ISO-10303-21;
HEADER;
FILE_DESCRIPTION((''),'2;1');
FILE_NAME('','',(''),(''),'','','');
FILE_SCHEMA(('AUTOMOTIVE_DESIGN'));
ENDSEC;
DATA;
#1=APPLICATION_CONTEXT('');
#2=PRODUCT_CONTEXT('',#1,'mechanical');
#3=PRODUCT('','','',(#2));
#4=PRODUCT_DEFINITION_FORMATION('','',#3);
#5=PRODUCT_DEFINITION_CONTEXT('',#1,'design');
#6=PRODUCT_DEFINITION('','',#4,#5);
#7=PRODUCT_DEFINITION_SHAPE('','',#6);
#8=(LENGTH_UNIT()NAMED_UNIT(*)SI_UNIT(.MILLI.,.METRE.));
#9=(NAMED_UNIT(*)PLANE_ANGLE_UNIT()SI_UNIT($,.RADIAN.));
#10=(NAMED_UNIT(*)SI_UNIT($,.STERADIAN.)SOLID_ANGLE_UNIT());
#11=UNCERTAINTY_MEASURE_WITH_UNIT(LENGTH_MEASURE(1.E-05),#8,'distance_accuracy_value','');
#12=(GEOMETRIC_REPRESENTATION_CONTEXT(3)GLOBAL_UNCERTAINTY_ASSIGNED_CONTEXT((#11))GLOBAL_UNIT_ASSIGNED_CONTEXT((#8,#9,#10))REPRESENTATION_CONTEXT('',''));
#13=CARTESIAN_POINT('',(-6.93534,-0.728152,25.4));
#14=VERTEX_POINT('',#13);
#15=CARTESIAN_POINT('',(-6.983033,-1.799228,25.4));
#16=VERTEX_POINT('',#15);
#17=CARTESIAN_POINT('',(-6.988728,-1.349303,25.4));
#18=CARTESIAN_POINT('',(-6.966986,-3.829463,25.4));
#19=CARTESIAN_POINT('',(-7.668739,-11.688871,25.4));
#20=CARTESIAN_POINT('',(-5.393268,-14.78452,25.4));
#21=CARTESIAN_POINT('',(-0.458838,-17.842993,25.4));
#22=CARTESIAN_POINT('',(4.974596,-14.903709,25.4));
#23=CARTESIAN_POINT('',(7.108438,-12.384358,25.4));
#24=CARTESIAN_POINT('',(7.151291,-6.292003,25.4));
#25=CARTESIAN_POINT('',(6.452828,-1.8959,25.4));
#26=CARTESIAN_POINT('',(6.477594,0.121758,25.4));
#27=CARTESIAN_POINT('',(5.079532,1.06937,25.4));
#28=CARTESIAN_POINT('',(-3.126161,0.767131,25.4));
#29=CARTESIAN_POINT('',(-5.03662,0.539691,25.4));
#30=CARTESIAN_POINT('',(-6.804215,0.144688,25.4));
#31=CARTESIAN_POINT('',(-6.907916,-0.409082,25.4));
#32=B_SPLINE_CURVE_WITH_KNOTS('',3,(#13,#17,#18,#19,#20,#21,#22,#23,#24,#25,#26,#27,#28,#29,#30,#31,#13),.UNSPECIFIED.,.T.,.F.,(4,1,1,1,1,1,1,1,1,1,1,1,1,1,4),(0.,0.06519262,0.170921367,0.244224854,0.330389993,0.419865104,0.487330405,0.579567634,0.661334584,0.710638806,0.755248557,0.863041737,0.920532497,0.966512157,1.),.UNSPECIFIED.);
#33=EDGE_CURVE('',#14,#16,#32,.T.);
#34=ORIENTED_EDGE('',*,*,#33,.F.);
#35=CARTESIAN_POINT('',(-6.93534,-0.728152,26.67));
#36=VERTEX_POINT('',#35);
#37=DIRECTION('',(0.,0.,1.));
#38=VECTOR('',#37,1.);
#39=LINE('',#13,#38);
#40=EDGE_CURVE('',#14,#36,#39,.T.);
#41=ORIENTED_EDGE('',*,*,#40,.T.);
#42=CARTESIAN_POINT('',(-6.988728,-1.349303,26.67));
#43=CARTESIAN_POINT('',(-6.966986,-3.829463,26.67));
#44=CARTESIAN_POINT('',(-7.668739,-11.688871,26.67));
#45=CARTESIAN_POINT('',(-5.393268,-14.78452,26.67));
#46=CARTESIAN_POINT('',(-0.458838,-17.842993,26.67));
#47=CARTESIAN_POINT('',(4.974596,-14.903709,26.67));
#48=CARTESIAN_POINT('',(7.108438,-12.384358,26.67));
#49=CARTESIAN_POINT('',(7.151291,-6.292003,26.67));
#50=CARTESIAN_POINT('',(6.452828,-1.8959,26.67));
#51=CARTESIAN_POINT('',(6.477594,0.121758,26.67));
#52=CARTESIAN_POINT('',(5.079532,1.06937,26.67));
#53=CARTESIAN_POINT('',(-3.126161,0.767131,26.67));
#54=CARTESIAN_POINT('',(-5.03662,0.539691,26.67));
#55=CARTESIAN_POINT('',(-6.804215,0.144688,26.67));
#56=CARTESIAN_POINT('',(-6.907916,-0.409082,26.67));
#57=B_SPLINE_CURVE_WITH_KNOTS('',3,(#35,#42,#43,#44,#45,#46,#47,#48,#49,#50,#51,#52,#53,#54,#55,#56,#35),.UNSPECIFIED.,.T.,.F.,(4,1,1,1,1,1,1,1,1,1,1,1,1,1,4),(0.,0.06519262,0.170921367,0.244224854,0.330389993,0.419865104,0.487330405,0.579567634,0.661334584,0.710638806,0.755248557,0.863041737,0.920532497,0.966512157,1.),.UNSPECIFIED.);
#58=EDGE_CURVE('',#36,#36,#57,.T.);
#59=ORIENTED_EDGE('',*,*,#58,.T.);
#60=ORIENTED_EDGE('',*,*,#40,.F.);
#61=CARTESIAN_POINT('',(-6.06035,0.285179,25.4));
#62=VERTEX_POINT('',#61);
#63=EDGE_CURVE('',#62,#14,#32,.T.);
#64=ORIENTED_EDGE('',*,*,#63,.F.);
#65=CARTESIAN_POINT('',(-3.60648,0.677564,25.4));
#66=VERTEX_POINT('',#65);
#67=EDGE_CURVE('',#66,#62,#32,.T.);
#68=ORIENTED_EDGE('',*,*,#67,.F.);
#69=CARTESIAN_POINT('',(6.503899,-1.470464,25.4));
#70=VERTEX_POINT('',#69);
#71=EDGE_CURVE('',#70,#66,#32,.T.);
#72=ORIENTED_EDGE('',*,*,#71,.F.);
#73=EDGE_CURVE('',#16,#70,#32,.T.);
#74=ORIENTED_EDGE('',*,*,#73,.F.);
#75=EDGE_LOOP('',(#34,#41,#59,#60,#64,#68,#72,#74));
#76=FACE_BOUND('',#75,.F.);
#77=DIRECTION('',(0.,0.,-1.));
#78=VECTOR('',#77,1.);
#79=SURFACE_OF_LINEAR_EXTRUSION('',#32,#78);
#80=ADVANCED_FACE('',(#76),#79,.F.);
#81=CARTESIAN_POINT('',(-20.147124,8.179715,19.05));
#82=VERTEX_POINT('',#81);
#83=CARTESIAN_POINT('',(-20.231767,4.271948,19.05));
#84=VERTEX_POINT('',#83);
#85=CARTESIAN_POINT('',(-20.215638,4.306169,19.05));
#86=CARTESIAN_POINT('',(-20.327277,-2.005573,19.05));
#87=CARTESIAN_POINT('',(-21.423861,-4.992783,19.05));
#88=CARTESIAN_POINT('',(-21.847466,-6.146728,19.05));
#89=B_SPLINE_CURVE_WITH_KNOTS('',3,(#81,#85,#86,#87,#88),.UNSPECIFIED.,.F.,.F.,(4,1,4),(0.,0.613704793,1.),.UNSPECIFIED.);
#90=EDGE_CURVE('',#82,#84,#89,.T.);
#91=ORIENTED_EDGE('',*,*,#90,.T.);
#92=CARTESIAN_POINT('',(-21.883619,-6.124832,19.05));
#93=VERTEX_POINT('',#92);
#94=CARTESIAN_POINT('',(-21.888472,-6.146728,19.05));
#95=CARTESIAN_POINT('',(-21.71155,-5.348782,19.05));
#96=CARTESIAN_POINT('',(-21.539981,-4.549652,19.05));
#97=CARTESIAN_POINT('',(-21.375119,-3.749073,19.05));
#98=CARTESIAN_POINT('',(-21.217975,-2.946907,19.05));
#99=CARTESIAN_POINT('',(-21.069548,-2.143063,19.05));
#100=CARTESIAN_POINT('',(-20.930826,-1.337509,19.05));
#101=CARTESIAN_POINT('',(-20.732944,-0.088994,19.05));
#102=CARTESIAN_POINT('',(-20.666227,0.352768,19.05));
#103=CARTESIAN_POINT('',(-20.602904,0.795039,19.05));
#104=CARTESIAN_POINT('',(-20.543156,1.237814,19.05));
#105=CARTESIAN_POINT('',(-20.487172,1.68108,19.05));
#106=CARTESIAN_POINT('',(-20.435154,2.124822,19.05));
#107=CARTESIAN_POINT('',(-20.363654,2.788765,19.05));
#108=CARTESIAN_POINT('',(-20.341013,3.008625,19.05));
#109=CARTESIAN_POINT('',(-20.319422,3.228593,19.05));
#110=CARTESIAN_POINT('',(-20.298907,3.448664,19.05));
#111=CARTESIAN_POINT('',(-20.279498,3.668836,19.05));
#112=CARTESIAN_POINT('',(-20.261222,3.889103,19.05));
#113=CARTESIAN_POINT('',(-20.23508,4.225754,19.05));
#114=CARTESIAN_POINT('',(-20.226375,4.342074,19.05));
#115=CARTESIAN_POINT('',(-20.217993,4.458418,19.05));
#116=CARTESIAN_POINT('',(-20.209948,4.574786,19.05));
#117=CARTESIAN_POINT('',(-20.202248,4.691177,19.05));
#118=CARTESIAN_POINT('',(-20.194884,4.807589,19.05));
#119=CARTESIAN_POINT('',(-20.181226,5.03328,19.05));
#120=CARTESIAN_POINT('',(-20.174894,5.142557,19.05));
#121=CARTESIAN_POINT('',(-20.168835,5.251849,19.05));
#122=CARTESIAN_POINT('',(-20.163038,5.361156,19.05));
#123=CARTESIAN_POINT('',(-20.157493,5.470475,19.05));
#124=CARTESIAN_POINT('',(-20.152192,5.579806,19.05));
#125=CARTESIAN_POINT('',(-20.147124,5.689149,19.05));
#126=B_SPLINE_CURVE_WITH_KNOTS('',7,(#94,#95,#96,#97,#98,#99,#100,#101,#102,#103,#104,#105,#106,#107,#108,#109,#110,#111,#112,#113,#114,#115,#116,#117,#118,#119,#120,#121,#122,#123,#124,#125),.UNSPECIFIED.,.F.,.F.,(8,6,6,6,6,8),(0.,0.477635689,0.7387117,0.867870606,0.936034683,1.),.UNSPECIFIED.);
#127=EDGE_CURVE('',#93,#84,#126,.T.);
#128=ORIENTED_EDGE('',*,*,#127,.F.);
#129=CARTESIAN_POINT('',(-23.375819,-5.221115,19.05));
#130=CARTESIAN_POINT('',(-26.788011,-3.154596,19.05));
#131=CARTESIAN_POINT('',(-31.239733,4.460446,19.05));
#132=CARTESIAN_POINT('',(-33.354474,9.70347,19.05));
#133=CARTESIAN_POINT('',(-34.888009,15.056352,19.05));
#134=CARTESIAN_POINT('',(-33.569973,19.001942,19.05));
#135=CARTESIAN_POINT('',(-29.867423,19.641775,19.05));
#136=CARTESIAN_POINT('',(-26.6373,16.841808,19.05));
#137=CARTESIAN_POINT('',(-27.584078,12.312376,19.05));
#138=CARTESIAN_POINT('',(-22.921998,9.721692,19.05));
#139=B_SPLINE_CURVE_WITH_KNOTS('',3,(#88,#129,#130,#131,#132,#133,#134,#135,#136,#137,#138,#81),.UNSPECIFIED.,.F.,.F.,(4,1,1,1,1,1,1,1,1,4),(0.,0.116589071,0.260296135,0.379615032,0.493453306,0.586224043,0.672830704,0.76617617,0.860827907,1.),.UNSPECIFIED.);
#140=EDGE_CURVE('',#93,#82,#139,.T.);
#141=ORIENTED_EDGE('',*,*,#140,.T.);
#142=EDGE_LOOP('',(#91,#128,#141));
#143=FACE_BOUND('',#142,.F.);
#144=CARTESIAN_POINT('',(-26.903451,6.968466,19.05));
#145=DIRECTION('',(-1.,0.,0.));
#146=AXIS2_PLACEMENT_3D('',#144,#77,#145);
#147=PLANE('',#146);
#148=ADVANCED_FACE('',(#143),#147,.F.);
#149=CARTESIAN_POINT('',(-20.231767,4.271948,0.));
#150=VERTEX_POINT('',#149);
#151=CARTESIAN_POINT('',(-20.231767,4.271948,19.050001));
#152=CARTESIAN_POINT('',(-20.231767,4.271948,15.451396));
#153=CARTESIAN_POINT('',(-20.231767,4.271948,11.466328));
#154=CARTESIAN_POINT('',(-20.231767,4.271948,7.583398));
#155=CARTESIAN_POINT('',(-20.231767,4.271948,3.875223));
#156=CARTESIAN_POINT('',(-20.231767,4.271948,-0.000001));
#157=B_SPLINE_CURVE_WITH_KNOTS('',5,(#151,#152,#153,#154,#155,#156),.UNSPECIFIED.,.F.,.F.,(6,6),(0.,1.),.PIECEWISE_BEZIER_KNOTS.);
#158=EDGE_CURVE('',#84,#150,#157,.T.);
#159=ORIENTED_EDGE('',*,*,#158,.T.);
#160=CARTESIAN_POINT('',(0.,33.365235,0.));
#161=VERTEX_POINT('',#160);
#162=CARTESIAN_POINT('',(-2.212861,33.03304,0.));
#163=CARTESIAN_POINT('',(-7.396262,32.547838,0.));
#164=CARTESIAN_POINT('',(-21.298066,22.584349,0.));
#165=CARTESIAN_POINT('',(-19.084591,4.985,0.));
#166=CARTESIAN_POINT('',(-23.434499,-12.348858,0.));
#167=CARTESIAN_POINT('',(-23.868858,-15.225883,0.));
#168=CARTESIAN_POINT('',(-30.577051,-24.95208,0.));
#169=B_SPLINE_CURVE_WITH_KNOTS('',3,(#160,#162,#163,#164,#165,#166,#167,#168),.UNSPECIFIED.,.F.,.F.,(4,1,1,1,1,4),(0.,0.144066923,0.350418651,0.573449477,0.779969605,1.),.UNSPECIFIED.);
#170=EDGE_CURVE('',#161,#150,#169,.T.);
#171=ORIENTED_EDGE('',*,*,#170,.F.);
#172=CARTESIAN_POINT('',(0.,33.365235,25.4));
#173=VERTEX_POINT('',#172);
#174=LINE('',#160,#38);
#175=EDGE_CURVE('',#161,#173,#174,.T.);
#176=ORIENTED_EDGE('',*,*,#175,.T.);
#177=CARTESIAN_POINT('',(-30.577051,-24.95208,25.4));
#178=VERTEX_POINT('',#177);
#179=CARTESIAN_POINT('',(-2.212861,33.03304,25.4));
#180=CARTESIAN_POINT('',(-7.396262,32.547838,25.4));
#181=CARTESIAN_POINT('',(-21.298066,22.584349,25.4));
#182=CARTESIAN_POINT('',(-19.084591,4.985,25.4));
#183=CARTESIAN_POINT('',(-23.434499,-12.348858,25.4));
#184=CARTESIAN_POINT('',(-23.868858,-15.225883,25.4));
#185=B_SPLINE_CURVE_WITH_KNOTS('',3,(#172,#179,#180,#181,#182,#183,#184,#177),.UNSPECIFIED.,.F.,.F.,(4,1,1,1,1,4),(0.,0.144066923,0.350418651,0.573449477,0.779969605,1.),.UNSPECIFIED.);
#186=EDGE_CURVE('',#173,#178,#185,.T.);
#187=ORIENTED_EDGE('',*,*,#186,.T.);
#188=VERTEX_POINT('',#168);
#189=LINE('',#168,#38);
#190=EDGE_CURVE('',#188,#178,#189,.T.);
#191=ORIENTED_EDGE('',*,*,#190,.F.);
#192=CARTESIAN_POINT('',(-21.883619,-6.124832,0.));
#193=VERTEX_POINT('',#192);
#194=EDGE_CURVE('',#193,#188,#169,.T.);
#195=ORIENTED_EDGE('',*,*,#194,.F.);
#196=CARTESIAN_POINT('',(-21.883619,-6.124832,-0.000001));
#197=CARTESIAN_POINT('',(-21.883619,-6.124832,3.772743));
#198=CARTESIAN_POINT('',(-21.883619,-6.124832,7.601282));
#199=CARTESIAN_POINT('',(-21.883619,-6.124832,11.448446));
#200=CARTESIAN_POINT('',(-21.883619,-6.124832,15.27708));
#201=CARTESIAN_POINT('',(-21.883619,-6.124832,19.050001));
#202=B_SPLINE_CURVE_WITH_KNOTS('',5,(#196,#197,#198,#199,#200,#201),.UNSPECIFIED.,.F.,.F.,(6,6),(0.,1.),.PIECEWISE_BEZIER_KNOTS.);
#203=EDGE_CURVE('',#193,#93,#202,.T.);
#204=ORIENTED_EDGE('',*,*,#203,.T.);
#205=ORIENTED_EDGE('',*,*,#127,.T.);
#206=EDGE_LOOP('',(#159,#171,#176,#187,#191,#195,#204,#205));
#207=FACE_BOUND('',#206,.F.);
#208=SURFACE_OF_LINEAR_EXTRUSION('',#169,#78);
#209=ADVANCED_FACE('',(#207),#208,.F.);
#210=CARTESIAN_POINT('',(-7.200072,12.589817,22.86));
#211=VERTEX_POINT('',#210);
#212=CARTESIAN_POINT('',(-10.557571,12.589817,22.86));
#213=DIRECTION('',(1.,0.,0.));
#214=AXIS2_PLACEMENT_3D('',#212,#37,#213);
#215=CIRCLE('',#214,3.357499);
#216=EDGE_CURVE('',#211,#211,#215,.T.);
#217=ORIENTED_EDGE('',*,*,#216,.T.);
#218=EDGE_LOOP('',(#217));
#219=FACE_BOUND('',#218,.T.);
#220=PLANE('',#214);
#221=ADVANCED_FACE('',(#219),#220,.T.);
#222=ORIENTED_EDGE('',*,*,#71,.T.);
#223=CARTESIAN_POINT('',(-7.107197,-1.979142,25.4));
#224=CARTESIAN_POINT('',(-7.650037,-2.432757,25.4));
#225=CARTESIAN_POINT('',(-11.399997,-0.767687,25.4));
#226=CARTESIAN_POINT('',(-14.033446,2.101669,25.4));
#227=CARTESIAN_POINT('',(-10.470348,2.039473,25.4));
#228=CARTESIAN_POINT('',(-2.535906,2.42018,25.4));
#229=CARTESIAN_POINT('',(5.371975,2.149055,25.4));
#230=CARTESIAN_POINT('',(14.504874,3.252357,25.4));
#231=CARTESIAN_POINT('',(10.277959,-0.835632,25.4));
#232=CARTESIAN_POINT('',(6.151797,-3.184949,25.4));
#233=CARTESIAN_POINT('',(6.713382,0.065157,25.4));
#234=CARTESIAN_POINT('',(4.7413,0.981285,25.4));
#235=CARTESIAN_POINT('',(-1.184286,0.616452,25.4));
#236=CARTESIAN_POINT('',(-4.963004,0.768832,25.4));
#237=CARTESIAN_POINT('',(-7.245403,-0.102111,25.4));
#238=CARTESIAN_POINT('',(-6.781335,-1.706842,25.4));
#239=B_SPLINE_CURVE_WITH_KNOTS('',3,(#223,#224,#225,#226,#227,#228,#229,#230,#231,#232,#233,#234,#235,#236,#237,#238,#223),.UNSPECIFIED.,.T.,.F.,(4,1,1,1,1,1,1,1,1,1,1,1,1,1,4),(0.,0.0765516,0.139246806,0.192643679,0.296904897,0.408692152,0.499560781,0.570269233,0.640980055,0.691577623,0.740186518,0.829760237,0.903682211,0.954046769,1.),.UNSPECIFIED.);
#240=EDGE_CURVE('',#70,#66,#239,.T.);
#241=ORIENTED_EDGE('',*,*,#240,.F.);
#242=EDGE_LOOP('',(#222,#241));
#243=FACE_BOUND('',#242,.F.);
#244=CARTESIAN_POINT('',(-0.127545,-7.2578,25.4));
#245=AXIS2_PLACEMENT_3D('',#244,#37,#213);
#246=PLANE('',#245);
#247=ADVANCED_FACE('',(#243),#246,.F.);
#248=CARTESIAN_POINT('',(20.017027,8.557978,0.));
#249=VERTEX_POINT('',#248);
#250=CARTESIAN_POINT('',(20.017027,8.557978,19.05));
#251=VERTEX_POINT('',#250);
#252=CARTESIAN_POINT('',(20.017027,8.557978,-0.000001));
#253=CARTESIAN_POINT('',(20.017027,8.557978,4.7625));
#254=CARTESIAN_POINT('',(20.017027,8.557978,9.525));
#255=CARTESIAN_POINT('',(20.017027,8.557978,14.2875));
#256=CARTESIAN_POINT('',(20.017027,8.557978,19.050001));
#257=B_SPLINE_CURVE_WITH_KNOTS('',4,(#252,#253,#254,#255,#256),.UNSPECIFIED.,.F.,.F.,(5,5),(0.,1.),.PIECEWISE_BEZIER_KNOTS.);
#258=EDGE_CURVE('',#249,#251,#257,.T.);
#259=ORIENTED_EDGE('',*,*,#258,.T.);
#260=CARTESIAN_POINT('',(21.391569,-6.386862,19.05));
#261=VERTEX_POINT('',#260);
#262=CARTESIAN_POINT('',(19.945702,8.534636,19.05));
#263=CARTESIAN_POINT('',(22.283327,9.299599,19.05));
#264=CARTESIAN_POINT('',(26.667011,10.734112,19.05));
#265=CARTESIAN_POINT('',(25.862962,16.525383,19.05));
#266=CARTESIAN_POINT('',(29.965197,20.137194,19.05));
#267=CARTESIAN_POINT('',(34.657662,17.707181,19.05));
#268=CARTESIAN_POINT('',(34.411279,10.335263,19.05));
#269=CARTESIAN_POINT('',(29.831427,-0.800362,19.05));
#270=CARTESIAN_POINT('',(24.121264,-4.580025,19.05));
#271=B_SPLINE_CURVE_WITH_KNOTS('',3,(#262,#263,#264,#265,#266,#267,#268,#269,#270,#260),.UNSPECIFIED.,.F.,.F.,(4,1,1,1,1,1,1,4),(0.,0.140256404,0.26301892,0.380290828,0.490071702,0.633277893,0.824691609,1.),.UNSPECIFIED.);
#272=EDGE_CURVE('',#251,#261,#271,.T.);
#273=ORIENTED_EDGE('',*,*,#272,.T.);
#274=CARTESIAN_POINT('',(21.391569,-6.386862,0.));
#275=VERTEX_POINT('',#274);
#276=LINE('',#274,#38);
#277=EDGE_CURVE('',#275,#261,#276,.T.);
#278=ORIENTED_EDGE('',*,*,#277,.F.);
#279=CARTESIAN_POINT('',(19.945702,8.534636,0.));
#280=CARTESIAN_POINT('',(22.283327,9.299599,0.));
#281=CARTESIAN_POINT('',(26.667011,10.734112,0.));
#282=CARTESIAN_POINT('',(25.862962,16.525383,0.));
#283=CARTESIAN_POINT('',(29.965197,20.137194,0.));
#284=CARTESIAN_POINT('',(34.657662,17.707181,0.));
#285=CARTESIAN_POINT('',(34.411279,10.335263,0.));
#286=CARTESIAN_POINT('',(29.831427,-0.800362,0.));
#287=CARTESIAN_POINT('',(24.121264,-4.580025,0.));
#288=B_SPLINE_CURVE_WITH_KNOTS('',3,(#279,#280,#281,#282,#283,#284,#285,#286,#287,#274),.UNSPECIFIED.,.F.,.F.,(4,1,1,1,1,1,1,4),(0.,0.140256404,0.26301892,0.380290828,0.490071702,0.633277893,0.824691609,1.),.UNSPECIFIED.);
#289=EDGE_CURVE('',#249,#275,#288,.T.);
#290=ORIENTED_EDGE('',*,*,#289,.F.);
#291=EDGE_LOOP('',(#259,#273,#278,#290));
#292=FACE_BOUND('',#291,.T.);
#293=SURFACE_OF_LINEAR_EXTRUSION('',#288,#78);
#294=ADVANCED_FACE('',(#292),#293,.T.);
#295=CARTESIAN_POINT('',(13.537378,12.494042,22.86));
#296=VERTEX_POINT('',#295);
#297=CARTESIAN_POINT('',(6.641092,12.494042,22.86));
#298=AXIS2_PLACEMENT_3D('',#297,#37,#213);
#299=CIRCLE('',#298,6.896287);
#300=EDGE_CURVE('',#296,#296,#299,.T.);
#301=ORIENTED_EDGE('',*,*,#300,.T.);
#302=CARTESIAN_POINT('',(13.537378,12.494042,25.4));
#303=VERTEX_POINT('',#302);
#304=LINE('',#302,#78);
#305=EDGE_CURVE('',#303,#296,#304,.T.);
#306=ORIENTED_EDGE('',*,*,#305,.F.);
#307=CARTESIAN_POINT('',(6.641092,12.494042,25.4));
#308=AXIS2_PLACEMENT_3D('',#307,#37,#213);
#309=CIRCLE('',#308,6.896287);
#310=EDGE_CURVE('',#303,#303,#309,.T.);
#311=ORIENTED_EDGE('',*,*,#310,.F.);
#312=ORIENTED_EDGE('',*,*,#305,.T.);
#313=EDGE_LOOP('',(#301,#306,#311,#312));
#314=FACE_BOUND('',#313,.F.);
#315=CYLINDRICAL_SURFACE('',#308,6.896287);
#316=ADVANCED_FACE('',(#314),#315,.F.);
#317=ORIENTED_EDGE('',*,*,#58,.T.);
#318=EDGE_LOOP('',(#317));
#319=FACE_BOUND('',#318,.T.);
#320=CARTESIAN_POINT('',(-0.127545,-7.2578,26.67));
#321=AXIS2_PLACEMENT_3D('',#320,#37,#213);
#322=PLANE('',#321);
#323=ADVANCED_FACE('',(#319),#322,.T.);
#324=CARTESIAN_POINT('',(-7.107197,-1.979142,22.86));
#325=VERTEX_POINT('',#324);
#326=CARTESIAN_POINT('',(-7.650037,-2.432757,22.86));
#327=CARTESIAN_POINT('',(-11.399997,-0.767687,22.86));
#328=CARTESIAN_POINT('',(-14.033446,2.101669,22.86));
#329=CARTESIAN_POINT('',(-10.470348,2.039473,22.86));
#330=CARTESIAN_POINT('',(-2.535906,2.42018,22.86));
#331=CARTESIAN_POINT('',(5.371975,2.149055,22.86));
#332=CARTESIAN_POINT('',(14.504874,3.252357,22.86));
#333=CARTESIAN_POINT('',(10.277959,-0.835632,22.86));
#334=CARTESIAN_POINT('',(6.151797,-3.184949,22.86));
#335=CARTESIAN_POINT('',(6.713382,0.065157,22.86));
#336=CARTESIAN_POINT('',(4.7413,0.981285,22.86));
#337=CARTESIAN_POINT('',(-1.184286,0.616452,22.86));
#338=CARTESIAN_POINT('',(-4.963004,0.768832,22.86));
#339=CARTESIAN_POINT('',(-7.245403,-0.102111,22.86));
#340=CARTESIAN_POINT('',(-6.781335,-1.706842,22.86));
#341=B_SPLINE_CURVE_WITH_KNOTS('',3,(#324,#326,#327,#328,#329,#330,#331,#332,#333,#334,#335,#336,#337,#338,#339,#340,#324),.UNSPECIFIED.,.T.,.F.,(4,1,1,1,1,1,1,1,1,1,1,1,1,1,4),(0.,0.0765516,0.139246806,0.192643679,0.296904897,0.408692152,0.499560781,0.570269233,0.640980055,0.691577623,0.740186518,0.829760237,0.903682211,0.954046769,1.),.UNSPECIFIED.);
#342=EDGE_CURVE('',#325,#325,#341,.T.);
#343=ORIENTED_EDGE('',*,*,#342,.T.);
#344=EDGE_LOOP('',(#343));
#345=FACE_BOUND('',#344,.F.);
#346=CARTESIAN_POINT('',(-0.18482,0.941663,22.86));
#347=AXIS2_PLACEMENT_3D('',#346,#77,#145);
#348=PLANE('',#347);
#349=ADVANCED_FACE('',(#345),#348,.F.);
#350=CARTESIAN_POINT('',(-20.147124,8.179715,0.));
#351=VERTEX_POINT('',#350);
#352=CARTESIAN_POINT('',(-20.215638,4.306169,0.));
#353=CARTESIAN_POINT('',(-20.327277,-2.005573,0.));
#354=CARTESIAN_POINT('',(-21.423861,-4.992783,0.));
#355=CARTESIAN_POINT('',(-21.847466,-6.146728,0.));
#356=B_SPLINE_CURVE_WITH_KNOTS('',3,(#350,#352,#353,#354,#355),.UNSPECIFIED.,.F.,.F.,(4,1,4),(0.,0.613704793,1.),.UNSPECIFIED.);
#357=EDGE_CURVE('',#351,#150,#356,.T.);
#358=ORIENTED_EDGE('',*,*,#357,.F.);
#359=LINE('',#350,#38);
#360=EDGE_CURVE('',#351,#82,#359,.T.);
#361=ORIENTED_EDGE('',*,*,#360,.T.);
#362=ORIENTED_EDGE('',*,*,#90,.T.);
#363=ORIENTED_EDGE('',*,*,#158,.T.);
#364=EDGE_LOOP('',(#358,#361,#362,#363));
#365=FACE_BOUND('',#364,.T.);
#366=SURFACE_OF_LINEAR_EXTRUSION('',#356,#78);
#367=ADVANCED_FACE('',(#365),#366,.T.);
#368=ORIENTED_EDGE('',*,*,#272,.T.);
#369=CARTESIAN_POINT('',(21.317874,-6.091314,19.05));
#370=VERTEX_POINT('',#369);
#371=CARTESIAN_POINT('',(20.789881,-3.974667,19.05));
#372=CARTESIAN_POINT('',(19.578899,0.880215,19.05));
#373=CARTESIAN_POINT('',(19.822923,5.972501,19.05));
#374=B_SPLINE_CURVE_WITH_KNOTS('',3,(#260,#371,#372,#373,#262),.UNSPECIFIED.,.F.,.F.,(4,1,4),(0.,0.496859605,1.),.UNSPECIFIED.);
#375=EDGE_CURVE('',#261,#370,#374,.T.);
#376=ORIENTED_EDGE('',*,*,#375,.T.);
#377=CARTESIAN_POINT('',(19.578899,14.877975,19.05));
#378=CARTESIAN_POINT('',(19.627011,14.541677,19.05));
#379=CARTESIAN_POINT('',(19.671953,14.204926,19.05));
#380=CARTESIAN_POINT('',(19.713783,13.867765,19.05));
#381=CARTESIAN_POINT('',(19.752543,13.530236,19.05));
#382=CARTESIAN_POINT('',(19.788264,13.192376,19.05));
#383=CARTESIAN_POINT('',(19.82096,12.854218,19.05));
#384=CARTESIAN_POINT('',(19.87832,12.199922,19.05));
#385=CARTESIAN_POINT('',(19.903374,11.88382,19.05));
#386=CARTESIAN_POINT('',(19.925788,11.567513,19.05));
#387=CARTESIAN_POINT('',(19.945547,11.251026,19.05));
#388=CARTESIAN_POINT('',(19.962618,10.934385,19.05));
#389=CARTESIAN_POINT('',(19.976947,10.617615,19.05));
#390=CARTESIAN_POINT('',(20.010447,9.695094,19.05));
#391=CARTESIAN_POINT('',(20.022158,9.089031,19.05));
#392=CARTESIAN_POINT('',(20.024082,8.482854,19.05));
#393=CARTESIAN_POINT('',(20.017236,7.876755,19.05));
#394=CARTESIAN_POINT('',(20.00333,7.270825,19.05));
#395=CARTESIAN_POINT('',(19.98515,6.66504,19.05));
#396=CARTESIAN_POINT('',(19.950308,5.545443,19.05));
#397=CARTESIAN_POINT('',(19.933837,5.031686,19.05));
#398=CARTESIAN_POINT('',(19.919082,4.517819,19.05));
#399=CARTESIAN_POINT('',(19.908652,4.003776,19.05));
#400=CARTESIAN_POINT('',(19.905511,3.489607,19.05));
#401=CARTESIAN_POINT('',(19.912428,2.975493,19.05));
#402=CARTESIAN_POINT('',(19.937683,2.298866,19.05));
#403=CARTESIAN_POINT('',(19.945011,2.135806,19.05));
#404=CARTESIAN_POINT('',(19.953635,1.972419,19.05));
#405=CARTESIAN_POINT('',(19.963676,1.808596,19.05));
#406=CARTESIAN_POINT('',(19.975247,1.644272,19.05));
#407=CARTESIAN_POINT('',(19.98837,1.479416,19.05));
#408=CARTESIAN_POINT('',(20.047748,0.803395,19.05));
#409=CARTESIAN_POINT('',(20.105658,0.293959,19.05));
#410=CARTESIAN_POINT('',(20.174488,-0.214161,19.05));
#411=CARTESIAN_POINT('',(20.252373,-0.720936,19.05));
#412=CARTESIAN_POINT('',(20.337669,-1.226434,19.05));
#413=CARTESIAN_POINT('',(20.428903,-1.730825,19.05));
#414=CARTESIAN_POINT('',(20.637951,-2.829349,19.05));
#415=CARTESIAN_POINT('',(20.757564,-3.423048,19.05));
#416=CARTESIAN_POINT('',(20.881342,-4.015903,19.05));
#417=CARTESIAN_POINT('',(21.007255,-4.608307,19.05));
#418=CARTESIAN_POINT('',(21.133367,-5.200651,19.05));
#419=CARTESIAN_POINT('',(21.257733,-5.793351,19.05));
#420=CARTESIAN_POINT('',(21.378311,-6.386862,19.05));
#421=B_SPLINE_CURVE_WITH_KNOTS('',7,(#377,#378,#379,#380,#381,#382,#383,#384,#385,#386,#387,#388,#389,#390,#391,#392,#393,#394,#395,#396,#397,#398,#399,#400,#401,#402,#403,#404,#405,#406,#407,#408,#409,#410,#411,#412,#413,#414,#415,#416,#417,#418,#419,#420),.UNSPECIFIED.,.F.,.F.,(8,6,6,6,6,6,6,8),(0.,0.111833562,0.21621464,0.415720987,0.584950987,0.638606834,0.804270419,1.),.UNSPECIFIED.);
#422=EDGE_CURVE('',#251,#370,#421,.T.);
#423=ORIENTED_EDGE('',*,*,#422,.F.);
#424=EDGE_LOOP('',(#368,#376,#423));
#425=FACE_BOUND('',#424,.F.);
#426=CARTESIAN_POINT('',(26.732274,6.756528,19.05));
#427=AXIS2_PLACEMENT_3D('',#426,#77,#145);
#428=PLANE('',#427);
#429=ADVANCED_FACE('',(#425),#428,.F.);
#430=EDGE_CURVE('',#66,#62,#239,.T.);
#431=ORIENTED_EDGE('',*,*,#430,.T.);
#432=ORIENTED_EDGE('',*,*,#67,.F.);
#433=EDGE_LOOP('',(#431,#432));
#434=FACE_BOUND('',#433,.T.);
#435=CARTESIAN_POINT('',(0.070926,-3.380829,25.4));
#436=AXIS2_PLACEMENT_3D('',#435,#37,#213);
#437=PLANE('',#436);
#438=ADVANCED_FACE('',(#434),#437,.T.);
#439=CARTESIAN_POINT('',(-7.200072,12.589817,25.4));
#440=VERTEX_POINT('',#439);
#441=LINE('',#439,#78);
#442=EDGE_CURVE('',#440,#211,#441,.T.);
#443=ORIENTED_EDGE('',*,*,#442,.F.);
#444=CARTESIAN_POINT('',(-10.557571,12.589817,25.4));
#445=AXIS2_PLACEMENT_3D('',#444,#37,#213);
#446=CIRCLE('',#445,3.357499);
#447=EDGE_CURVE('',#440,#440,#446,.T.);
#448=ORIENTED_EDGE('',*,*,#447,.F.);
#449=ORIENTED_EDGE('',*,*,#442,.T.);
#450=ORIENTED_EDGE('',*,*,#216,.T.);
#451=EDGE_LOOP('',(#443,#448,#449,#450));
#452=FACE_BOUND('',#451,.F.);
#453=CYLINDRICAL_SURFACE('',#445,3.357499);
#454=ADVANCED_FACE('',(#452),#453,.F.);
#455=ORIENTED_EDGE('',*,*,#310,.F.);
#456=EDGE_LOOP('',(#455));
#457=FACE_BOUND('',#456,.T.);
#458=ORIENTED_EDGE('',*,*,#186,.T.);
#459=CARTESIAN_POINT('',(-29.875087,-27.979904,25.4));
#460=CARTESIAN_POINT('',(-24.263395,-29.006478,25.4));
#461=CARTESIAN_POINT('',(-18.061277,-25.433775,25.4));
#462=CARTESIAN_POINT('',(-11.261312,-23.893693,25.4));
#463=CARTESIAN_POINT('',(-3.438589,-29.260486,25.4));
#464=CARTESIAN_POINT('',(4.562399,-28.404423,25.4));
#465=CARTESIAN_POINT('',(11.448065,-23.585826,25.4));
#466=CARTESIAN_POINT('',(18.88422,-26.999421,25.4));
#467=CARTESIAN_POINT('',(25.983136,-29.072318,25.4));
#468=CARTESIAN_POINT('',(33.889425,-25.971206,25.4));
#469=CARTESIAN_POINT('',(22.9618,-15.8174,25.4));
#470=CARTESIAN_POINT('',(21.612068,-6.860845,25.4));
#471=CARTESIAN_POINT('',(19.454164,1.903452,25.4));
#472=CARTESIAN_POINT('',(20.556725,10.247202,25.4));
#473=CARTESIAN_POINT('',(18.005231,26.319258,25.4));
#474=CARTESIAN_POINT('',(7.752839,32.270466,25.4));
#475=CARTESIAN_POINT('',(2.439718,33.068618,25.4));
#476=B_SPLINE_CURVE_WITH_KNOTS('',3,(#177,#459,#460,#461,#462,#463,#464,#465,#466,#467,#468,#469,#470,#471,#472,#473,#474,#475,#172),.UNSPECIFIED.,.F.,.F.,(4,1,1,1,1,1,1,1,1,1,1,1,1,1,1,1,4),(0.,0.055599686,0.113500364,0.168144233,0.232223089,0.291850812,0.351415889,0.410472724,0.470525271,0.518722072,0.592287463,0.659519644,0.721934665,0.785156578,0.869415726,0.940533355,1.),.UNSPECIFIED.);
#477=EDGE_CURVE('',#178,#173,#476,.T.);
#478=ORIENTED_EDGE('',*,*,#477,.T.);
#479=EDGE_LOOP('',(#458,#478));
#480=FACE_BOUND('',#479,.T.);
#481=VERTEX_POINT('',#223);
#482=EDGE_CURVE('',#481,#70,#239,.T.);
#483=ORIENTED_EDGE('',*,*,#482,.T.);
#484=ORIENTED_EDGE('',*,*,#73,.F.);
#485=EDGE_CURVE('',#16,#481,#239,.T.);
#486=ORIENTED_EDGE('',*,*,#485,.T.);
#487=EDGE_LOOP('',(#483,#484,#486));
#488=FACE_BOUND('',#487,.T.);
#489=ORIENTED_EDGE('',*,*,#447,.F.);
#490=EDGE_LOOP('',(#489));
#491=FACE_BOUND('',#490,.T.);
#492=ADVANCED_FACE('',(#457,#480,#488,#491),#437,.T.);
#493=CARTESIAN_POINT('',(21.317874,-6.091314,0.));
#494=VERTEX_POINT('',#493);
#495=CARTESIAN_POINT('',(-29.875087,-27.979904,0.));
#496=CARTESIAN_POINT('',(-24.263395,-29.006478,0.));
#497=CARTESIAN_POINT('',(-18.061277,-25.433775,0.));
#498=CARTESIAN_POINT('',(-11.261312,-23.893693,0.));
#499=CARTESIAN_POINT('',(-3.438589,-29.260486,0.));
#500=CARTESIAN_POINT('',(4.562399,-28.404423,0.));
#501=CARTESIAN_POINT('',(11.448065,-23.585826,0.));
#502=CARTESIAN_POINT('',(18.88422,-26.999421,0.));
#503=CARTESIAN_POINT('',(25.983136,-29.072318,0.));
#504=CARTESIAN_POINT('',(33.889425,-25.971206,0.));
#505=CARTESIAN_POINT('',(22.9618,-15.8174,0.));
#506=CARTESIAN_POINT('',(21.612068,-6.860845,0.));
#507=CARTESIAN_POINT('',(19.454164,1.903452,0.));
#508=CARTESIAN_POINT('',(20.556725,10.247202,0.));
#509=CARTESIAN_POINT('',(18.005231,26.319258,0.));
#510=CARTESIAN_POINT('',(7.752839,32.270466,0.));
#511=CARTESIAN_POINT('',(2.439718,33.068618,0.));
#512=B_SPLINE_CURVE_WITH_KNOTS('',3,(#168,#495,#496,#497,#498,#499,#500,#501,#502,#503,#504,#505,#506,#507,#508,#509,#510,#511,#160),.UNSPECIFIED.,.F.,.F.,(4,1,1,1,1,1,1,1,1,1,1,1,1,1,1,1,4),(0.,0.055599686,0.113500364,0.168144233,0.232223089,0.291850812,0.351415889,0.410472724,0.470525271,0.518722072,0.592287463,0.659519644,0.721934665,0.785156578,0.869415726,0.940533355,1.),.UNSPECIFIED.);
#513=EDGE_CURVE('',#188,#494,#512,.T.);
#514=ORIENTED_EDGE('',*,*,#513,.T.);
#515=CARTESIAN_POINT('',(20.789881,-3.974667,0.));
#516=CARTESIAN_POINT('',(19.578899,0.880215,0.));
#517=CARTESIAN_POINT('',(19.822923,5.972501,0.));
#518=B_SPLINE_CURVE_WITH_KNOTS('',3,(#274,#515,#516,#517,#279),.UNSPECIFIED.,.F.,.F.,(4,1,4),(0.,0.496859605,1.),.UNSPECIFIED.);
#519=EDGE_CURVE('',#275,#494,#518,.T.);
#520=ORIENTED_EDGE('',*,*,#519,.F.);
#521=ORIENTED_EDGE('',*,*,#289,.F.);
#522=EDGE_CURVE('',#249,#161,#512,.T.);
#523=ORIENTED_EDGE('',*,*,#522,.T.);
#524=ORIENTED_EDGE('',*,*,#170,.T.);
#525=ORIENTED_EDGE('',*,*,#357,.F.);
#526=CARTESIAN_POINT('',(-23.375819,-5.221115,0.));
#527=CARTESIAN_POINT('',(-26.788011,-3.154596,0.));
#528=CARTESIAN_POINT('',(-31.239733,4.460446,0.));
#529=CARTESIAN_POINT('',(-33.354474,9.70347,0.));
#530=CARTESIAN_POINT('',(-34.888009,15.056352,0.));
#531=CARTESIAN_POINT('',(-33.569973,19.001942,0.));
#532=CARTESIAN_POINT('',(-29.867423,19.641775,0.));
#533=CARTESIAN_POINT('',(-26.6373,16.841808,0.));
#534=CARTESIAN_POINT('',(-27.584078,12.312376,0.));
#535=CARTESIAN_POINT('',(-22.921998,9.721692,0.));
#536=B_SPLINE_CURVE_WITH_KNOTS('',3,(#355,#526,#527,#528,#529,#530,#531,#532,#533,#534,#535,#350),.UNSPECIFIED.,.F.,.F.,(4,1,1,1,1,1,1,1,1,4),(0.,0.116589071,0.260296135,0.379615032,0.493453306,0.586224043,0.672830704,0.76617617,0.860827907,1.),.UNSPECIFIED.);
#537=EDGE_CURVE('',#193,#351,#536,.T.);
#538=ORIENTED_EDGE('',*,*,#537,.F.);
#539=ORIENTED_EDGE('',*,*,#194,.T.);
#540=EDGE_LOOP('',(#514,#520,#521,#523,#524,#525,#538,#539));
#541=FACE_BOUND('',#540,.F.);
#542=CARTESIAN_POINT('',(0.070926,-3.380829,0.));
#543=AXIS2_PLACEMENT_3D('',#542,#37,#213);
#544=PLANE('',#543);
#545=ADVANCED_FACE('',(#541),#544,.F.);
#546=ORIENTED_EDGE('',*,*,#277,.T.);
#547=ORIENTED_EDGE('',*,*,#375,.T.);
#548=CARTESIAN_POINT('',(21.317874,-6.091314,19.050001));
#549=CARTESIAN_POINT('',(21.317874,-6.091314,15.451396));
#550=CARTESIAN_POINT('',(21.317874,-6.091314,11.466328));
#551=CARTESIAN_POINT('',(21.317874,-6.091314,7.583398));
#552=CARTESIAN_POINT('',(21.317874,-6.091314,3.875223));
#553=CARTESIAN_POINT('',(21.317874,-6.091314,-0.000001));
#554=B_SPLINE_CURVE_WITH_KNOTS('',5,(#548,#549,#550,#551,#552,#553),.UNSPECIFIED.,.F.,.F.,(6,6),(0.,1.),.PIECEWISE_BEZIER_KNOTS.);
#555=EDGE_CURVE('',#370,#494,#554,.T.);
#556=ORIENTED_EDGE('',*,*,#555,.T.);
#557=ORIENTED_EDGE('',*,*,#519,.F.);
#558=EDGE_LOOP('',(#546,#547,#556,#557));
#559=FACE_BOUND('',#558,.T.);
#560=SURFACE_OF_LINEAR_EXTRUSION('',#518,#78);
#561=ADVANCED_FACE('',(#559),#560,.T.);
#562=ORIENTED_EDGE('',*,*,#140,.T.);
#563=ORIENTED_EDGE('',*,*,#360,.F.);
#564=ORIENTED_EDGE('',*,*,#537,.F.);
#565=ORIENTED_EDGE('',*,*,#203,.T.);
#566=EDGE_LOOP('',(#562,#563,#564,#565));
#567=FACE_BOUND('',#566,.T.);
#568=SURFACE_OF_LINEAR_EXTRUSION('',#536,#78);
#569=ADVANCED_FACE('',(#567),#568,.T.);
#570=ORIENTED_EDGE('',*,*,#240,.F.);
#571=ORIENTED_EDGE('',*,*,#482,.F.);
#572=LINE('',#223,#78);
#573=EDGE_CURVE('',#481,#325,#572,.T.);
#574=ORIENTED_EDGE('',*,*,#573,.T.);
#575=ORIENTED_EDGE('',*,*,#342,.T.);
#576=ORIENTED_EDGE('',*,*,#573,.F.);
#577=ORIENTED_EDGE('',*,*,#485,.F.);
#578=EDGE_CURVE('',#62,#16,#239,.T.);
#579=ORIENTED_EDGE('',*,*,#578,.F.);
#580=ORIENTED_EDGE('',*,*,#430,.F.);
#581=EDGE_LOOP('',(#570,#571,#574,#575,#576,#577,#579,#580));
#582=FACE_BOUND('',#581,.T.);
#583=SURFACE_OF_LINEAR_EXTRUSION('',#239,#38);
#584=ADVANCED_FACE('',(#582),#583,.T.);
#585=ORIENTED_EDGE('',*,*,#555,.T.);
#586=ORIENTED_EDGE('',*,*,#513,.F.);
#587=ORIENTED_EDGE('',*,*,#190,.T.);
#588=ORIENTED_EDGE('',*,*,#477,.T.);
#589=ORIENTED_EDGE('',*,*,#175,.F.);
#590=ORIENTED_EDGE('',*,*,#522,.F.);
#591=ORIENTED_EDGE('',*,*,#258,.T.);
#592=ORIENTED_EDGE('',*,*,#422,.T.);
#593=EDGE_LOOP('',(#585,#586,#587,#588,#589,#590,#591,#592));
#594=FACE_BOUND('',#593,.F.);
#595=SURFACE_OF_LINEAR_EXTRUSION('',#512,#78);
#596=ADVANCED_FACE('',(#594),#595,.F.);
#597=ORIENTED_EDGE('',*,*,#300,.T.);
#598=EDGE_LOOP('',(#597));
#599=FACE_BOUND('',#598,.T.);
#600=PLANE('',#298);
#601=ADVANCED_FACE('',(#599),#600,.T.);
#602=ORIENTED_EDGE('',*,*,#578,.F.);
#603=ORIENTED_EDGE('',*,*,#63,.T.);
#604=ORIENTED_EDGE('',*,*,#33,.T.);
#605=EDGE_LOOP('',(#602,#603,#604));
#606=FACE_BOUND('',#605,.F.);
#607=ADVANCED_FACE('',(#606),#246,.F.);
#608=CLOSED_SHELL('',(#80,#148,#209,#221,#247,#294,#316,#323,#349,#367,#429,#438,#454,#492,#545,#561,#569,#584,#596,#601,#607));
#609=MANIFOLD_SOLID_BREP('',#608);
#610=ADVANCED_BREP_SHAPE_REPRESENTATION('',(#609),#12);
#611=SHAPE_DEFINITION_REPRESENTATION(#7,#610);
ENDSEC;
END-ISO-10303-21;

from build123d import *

# Parameters (mm, degrees)
F2_DEPTH = 25.4
F3_DEPTH = 19.05
F5_R     = 3.3574992829
F5_R_2   = 6.8962868763
F6_DEPTH = 2.54
F8_DEPTH = 1.27


with BuildPart() as f2:
    # F0 (on Top) → F2 (new body)
    with BuildSketch(Plane.XY):
        with BuildLine():
            add(Edge.make_bspline(
                [(-30.577050522, -24.9520801008), (-29.8750871827, -27.9799042117), (-24.263394555, -29.0064776543), (-18.0612773362, -25.4337749316), (-11.261311932, -23.8936931853), (-3.4385888853, -29.260485635), (4.5623986259, -28.4044227429), (11.4480654753, -23.585826215), (18.8842197216, -26.9994212614), (25.9831358892, -29.0723176834), (33.889425113, -25.9712057612), (22.9618004373, -15.8173997978), (21.6120675559, -6.8608448836), (19.4541638752, 1.9034519948), (20.5567252499, 10.2472016457), (18.005230974, 26.3192575671), (7.7528391117, 32.2704659297), (2.4397179909, 33.068617549), (0, 33.3652347326)],
                knots=[0, 0, 0, 0, 0.0555996863, 0.1135003644, 0.1681442332, 0.2322230889, 0.2918508118, 0.3514158892, 0.4104727235, 0.4705252707, 0.5187220722, 0.5922874626, 0.6595196441, 0.7219346649, 0.7851565781, 0.8694157261, 0.9405333546, 1, 1, 1, 1], degree=3))
            add(Edge.make_bspline(
                [(0, 33.3652347326), (-2.2128607705, 33.0330397116), (-7.3962618534, 32.5478381046), (-21.2980661467, 22.5843492267), (-19.0845907113, 4.9850002884), (-23.4344990336, -12.3488577398), (-23.8688584038, -15.2258834623), (-30.577050522, -24.9520801008)],
                knots=[0, 0, 0, 0, 0.1440669232, 0.3504186513, 0.5734494767, 0.7799696046, 1, 1, 1, 1], degree=3))
        make_face()
    extrude(amount=F2_DEPTH)

    # F1 (on Top) → F3 (join)
    with BuildSketch(Plane.XY):
        with BuildLine():
            add(Edge.make_bspline(
                [(-21.8474660069, -6.1467275955), (-23.3758188019, -5.2211146804), (-26.7880110709, -3.1545962411), (-31.2397325676, 4.4604457914), (-33.3544743123, 9.7034698485), (-34.8880087468, 15.0563524201), (-33.5699728209, 19.0019419023), (-29.8674226856, 19.6417750372), (-26.6372995809, 16.8418083449), (-27.5840781821, 12.3123760081), (-22.9219976268, 9.7216917981), (-20.1471243054, 8.1797149032)],
                knots=[0, 0, 0, 0, 0.1165890705, 0.2602961348, 0.379615032, 0.4934533059, 0.5862240428, 0.6728307037, 0.76617617, 0.8608279072, 1, 1, 1, 1], degree=3))
            add(Edge.make_bspline(
                [(-20.1471243054, 8.1797149032), (-20.2156376988, 4.3061689257), (-20.3272767054, -2.0055725228), (-21.4238608193, -4.992782643), (-21.8474660069, -6.1467275955)],
                knots=[0, 0, 0, 0, 0.6137047928, 1, 1, 1, 1], degree=3))
        make_face()
        with BuildLine():
            add(Edge.make_bspline(
                [(19.9457015842, 8.5346363485), (22.2833270448, 9.2995990155), (26.6670108071, 10.734112148), (25.8629622979, 16.52538335), (29.96519668, 20.1371935364), (34.6576624406, 17.707180758), (34.4112792093, 10.3352633574), (29.8314269927, -0.8003615683), (24.1212637744, -4.5800254345), (21.3915687054, -6.3868616708)],
                knots=[0, 0, 0, 0, 0.1402564045, 0.2630189196, 0.3802908278, 0.4900717024, 0.633277893, 0.8246916088, 1, 1, 1, 1], degree=3))
            add(Edge.make_bspline(
                [(21.3915687054, -6.3868616708), (20.7898808373, -3.9746669912), (19.5788991786, 0.8802148657), (19.8229232277, 5.9725013254), (19.9457015842, 8.5346363485)],
                knots=[0, 0, 0, 0, 0.4968596046, 1, 1, 1, 1], degree=3))
        make_face()
    extrude(amount=F3_DEPTH)

    # F5 (on offset) → F6 (cut)
    with BuildSketch(Plane.XY.offset(25.4)):
        with BuildLine():
            add(Edge.make_bspline(
                [(-7.1071968222, -1.9791423657), (-7.6500368077, -2.4327569832), (-11.3999970407, -0.7676865902), (-14.0334455873, 2.1016686035), (-10.4703480807, 2.0394728468), (-2.5359056055, 2.4201795141), (5.3719749684, 2.1490552813), (14.5048736899, 3.2523571344), (10.2779594899, -0.8356316633), (6.1517973542, -3.1849491095), (6.7133820813, 0.0651573409), (4.7412998078, 0.9812851072), (-1.1842856701, 0.6164516758), (-4.963004476, 0.7688322795), (-7.2454033551, -0.1021114397), (-6.7813349055, -1.7068416277), (-7.1071968222, -1.9791423657)],
                knots=[0, 0, 0, 0, 0.0765516, 0.1392468064, 0.1926436788, 0.2969048972, 0.4086921522, 0.4995607805, 0.5702692331, 0.6409800553, 0.691577623, 0.740186518, 0.8297602369, 0.9036822114, 0.9540467692, 1, 1, 1, 1], degree=3))
        make_face()
        with Locations((-10.5575712089, 12.5898170626)):
            Circle(F5_R)
        with Locations((6.6410916153, 12.4940418395)):
            Circle(F5_R_2)
    extrude(amount=-F6_DEPTH, mode=Mode.SUBTRACT)

    # F7 (on offset) → F8 (join)
    with BuildSketch(Plane.XY.offset(25.4)):
        with BuildLine():
            add(Edge.make_bspline(
                [(-6.9353398867, -0.728152052), (-6.9887283416, -1.3493032888), (-6.9669862646, -3.8294625514), (-7.668738891, -11.688871403), (-5.393267542, -14.7845204424), (-0.4588378023, -17.8429928562), (4.9745957576, -14.9037087269), (7.108438016, -12.384358223), (7.1512906765, -6.2920027828), (6.4528279132, -1.8958996918), (6.4775937127, 0.121757782), (5.0795324688, 1.0693704248), (-3.1261610836, 0.7671309254), (-5.0366202758, 0.5396910661), (-6.8042150363, 0.1446876721), (-6.9079155522, -0.4090819582), (-6.9353398867, -0.728152052)],
                knots=[0, 0, 0, 0, 0.0651926195, 0.1709213669, 0.2442248538, 0.3303899927, 0.4198651039, 0.4873304048, 0.5795676342, 0.6613345837, 0.7106388056, 0.7552485565, 0.8630417373, 0.9205324975, 0.9665121568, 1, 1, 1, 1], degree=3))
        make_face()
    extrude(amount=F8_DEPTH)


solid = f2.part
